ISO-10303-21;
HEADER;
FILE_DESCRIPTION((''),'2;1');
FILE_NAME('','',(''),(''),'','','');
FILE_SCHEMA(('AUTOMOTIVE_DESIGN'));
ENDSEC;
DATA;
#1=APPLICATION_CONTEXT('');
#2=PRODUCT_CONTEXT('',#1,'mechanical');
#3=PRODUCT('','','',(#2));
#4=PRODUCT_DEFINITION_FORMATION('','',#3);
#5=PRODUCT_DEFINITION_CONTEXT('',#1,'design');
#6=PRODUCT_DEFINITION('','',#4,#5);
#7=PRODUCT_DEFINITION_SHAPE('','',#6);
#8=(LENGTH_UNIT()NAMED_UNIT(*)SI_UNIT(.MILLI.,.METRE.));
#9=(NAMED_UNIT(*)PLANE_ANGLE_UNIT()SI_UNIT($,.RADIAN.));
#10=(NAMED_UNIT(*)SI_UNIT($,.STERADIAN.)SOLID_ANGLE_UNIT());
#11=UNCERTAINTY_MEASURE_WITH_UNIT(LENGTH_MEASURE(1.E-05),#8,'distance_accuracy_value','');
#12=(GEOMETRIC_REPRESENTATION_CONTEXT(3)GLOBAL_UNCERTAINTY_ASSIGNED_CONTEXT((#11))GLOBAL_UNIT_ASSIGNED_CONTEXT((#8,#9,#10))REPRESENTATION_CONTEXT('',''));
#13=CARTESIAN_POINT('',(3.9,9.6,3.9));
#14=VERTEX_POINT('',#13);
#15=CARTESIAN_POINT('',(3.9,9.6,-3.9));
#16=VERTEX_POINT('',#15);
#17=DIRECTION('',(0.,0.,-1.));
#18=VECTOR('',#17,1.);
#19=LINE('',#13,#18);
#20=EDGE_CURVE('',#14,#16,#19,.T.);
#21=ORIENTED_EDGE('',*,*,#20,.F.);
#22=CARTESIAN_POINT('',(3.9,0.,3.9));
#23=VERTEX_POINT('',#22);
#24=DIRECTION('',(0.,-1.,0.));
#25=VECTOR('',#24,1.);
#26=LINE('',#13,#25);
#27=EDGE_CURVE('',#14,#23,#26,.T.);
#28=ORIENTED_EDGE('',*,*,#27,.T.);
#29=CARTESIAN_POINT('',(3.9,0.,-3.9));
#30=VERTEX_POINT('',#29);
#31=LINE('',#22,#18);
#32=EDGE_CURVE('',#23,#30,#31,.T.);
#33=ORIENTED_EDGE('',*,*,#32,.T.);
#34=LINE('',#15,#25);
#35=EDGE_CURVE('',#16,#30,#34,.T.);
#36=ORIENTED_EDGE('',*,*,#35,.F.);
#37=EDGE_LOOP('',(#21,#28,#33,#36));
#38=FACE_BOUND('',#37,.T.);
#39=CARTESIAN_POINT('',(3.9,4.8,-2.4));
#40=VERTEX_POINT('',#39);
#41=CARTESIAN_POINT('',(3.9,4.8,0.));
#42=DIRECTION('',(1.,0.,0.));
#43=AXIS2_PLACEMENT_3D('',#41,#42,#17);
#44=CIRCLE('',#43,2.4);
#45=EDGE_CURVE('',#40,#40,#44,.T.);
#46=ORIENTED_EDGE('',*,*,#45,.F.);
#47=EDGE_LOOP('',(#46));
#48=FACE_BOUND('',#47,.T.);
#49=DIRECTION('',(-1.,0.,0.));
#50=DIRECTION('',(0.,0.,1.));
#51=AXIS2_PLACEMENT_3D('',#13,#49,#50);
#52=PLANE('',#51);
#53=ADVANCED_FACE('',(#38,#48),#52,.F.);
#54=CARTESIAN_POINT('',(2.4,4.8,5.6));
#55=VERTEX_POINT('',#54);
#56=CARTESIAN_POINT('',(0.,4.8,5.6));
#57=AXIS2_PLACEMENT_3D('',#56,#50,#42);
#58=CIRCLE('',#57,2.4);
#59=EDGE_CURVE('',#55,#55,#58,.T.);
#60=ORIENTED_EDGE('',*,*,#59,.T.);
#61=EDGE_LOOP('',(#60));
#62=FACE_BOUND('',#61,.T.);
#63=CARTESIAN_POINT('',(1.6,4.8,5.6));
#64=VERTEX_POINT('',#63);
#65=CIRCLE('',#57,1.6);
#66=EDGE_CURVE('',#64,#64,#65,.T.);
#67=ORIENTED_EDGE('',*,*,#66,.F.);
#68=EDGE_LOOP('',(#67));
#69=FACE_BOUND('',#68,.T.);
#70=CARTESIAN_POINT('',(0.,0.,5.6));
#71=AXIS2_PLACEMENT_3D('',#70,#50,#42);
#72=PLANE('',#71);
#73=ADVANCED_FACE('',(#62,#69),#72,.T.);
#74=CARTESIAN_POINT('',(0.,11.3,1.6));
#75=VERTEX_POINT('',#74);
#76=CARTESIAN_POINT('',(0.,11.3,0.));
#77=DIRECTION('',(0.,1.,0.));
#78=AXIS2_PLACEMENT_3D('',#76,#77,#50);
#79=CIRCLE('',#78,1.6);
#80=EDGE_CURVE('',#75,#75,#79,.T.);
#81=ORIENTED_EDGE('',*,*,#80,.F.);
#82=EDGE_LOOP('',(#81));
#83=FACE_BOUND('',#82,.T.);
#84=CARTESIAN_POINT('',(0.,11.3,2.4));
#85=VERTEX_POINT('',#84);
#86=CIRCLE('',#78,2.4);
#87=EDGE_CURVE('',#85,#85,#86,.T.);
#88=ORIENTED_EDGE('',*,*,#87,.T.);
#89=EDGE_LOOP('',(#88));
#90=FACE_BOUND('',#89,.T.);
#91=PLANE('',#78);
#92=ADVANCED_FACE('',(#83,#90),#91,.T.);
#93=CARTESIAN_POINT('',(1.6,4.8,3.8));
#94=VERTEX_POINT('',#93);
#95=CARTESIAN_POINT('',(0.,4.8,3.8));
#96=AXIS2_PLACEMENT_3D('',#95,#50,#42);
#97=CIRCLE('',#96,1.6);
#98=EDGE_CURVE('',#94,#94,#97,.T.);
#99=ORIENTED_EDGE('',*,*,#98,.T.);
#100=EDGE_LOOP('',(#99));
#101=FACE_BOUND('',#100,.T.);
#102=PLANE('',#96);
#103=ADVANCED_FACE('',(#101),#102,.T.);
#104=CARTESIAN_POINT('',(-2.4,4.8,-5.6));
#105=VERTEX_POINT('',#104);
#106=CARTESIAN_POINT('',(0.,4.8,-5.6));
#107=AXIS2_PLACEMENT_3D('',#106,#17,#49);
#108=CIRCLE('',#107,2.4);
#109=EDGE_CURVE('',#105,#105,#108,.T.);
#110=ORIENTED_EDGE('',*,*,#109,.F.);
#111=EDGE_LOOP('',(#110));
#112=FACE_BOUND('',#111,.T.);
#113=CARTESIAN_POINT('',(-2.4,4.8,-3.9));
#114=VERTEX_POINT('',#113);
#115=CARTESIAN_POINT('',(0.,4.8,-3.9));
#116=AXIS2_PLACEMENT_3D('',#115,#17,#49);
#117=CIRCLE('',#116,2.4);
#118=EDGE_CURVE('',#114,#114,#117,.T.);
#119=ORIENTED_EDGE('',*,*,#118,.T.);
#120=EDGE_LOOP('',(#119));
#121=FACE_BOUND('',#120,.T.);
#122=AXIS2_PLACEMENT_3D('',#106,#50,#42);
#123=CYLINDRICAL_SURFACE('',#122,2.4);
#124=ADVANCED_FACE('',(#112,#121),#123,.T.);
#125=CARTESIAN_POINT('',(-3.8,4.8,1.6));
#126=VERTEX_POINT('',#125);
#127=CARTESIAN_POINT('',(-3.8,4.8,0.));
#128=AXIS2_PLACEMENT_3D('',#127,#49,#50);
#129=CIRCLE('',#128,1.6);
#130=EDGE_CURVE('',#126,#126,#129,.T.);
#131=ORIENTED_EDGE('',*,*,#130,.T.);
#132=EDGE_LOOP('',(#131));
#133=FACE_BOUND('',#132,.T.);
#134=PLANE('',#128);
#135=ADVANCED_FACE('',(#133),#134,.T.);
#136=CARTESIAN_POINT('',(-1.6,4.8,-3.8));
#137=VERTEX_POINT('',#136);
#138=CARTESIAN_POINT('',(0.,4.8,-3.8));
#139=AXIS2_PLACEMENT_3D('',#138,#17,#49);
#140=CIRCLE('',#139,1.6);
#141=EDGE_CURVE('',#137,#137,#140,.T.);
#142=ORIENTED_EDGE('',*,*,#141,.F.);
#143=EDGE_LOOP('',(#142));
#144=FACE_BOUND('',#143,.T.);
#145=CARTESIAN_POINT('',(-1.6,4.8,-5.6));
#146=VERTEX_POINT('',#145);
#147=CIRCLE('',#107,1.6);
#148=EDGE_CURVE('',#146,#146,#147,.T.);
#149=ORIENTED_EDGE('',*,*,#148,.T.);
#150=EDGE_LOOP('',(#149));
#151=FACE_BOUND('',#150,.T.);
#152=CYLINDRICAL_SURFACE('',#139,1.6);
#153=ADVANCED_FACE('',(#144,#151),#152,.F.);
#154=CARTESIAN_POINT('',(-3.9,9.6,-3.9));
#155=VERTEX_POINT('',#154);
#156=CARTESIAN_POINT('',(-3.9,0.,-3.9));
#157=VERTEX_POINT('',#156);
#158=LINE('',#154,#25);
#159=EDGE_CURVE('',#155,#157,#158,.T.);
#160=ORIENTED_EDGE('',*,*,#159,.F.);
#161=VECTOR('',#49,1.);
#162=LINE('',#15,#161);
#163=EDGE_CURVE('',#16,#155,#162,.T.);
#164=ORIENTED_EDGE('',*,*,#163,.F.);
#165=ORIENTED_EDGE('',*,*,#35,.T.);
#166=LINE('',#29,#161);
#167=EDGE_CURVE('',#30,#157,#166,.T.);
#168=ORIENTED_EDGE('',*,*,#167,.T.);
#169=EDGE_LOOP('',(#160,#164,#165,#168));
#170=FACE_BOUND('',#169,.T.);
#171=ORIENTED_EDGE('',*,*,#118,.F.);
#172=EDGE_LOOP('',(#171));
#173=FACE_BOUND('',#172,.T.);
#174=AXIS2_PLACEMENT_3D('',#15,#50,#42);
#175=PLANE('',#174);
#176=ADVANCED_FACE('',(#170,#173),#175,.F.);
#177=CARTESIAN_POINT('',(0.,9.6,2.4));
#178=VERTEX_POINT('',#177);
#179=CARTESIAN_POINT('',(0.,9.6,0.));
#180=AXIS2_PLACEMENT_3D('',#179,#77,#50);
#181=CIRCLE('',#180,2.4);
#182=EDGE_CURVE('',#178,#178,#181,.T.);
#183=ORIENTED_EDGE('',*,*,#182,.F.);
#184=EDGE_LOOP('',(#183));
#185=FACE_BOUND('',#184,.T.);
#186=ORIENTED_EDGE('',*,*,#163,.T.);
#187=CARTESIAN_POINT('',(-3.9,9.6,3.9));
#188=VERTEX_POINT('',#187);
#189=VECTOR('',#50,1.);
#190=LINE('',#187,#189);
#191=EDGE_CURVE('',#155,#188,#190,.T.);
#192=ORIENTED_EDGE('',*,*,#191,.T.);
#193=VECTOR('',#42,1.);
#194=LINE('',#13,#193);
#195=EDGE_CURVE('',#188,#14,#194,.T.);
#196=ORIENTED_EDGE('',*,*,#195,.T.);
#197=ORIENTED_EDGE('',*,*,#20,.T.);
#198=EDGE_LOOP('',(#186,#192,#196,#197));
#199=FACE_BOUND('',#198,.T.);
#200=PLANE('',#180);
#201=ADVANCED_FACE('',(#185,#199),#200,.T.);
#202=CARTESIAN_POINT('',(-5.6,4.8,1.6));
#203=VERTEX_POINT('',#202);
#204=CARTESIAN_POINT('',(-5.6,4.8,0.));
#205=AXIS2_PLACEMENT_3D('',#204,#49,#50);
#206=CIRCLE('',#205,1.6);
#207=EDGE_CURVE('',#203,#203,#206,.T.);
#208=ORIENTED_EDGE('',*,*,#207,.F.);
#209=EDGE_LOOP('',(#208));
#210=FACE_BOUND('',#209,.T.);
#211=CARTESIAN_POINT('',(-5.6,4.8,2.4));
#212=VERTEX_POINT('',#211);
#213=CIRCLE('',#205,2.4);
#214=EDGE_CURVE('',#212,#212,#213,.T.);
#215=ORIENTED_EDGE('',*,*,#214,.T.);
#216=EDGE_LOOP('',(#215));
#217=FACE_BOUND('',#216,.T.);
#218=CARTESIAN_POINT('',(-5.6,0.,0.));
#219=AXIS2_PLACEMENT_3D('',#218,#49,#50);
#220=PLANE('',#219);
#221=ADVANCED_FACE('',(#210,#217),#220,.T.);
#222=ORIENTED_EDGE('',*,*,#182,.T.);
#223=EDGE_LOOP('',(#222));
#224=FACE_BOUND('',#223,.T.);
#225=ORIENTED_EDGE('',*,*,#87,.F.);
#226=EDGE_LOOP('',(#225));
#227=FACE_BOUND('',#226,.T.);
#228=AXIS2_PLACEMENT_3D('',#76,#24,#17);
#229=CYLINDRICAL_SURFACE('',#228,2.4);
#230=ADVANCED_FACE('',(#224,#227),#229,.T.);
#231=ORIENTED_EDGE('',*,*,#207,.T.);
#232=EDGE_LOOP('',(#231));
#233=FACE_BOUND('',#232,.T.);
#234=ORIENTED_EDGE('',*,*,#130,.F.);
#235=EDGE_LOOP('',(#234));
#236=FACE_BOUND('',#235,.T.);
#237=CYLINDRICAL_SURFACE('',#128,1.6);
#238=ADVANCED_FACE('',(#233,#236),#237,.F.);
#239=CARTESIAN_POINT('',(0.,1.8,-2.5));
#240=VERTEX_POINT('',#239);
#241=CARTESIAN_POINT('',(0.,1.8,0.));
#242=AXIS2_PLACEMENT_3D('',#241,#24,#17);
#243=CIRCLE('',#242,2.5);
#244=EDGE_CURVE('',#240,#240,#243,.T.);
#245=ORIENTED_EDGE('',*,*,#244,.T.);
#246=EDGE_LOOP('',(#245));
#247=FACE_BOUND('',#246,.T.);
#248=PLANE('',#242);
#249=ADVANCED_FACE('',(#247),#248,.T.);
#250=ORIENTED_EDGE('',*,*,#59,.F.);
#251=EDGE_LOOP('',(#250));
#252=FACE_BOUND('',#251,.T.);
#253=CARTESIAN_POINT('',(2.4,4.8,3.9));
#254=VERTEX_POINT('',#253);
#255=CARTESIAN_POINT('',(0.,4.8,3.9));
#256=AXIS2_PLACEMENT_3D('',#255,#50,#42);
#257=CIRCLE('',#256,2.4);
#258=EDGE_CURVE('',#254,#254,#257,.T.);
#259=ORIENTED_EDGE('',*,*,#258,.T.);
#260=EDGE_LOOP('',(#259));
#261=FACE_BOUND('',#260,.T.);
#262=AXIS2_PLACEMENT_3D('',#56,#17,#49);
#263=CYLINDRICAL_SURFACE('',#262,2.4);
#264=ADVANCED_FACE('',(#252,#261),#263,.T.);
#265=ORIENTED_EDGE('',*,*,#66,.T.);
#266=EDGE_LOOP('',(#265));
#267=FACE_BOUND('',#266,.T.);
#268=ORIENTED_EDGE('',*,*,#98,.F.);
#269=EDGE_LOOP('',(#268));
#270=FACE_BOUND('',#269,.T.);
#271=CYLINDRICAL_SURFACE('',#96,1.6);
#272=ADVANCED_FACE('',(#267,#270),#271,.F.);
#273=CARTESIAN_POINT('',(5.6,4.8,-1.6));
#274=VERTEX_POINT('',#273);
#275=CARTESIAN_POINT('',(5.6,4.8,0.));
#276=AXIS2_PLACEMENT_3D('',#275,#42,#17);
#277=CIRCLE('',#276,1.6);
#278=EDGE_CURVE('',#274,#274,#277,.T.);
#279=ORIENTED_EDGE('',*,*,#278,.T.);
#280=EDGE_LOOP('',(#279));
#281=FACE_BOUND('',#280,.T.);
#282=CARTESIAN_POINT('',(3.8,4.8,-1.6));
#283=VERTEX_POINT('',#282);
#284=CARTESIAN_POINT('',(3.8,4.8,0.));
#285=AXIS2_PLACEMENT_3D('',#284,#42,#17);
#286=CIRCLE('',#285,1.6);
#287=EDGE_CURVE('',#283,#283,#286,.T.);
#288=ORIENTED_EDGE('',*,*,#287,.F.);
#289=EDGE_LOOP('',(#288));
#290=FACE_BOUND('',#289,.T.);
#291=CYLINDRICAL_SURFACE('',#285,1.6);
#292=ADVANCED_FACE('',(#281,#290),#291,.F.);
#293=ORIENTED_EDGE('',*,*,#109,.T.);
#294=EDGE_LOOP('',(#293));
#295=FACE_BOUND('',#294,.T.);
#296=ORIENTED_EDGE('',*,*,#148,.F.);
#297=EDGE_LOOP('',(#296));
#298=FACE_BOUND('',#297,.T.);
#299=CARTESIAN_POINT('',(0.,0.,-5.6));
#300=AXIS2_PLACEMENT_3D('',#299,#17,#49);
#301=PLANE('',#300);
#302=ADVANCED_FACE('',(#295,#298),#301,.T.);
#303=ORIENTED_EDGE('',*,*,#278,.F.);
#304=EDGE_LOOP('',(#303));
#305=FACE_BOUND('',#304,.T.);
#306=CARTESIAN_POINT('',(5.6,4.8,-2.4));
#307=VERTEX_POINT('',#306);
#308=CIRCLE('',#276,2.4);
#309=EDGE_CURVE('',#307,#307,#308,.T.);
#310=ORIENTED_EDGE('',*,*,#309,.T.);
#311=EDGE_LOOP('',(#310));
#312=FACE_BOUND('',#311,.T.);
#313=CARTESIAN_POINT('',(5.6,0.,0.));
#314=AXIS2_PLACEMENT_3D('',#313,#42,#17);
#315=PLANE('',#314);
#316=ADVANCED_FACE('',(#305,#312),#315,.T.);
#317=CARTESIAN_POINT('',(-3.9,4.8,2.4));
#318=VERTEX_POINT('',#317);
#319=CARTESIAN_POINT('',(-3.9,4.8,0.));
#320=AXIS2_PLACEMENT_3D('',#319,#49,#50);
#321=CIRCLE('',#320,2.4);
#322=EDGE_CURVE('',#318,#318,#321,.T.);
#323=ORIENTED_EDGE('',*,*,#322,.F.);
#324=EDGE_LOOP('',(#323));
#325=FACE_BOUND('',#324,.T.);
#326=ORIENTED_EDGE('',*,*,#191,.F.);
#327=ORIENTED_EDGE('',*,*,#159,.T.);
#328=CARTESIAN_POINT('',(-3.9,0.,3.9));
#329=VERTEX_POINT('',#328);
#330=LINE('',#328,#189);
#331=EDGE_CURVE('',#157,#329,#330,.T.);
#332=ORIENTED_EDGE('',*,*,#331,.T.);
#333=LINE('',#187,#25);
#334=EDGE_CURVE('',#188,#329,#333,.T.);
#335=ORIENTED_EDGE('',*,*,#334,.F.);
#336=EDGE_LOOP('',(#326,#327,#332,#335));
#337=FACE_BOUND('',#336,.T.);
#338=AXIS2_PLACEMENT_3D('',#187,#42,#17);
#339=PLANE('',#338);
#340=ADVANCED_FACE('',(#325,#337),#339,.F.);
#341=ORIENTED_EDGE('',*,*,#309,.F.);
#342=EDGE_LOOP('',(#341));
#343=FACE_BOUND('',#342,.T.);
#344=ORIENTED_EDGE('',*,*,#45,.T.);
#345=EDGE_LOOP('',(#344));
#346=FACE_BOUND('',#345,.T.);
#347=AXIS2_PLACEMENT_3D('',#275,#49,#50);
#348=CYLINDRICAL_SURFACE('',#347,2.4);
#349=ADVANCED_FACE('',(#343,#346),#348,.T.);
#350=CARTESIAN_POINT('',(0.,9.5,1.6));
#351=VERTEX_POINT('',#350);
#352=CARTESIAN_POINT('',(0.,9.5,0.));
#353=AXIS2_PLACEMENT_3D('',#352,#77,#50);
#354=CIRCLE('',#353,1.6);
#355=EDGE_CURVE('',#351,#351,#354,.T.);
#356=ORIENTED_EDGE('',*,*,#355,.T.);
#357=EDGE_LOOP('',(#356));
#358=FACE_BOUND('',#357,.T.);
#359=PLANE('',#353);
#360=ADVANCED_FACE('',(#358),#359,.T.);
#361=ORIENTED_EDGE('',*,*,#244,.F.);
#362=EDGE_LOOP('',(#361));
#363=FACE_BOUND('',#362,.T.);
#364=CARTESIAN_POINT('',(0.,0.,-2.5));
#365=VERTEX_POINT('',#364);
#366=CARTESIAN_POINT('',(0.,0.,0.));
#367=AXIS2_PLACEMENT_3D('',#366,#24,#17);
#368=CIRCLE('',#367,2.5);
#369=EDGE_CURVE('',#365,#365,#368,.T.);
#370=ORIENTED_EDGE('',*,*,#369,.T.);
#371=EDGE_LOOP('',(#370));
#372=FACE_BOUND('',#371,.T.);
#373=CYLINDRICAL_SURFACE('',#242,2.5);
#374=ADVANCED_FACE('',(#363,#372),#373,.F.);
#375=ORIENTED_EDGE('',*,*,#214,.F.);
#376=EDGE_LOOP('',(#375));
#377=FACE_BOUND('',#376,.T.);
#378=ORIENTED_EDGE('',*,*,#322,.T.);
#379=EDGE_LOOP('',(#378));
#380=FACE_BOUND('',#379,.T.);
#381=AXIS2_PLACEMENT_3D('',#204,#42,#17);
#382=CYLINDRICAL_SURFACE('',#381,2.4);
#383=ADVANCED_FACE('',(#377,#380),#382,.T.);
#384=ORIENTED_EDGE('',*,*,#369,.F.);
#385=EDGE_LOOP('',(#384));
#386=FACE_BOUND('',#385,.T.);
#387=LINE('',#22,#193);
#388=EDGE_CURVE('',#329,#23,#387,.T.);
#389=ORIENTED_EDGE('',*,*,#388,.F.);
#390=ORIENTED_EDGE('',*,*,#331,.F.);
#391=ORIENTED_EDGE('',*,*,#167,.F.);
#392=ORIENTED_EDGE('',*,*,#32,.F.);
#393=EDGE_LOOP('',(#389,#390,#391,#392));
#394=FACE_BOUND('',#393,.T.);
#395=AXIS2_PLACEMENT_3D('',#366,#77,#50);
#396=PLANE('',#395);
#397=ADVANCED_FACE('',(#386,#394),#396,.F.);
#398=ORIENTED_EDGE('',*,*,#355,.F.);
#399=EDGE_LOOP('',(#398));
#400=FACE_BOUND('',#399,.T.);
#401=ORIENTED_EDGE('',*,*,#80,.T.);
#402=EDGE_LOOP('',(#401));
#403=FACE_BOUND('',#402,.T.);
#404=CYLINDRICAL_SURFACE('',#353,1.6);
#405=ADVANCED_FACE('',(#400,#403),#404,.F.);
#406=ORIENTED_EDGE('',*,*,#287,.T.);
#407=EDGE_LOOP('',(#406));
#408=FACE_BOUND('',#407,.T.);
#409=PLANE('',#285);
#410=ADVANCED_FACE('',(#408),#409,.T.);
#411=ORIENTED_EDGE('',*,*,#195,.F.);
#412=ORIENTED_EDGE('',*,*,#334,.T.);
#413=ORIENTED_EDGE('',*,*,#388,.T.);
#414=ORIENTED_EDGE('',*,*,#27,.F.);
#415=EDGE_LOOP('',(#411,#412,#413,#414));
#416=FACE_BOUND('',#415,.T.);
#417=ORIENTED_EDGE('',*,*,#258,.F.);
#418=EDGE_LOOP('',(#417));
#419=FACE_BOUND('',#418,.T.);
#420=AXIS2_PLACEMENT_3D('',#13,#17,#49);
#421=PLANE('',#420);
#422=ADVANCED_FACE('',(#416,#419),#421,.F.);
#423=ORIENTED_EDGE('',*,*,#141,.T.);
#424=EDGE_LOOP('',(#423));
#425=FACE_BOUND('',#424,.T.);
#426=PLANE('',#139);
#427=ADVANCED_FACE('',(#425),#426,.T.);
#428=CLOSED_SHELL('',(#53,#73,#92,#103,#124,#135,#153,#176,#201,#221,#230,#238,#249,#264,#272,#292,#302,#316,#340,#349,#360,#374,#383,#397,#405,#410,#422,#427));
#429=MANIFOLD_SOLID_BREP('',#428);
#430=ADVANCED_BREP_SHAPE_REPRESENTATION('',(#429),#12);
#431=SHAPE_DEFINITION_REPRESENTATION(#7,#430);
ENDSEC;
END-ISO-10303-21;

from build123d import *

# Parameters (mm, degrees)
SKETCH_1_W          = 7.8
SKETCH_1_H          = 7.8
EXTRUDE_1_DEPTH     = 9.6
SKETCH_2_R          = 2.4
EXTRUDE_2_DEPTH     = 1.7
EXTRUDE_6_DEPTH     = 1.7
EXTRUDE_7_DEPTH     = 1.7
EXTRUDE_START       = 1.7
EXTRUDE_8_DEPTH     = 1.7
EXTRUDE_9_DEPTH     = 1.7
CUT_EXTRUDE_1_DEPTH = 1.8
SKETCH_12_R         = 1.6
CUT_EXTRUDE_2_DEPTH = 1.8
SKETCH_13_R         = 1.6
CUT_EXTRUDE_3_DEPTH = 1.8
CUT_EXTRUDE_START   = -1.8
SKETCH_14_R         = 1.6
CUT_EXTRUDE_4_DEPTH = 1.8
SKETCH_15_R         = 1.6
CUT_EXTRUDE_5_DEPTH = 1.8
SKETCH_16_R         = 1.6
CUT_EXTRUDE_6_DEPTH = 1.8


with BuildPart() as part:
    # Эскиз1 → Бобышка-Вытянуть1 (new body)
    with BuildSketch(Plane(origin=(0, 0, 0), x_dir=(1, 0, 0), z_dir=(0, 1, 0))):
        Rectangle(SKETCH_1_W, SKETCH_1_H)
    extrude(amount=EXTRUDE_1_DEPTH)

    # Эскиз2 → Бобышка-Вытянуть2 (add)
    with BuildSketch(Plane(origin=(0, 9.6, 0), x_dir=(1, 0, 0), z_dir=(0, 1, 0))):
        with Locations(Location((0, 0, 0), (0, 0, 270))):
            Circle(SKETCH_2_R)
    extrude(amount=EXTRUDE_2_DEPTH)

    # Эскиз6 → Бобышка-Вытянуть6 (add)
    with BuildSketch(Plane.XY.offset(3.9)):
        with BuildLine():
            ThreePointArc((1.5134223, 6.6626736), (0, 7.2), (-1.5134223, 6.6626736))
            Line((-1.5134223, 6.6626736), (0, 4.8))
            Line((0, 4.8), (1.5134223, 6.6626736))
        make_face()
        with BuildLine():
            Line((0, 4.8), (-1.5134223, 6.6626736))
            ThreePointArc((-1.5134223, 6.6626736), (-2.4, 4.8), (-1.5134223, 2.9373264))
            Line((-1.5134223, 2.9373264), (0, 4.8))
        make_face()
        with BuildLine():
            Line((1.5134223, 6.6626736), (0, 4.8))
            Line((0, 4.8), (1.5134223, 2.9373264))
            ThreePointArc((1.5134223, 2.9373264), (2.167050244, 3.768547994), (2.4, 4.8))
            ThreePointArc((2.4, 4.8), (2.167050244, 5.831452006), (1.5134223, 6.6626736))
        make_face()
        with BuildLine():
            Line((1.5134223, 2.9373264), (0, 4.8))
            Line((0, 4.8), (-1.5134223, 2.9373264))
            ThreePointArc((-1.5134223, 2.9373264), (0, 2.4), (1.5134223, 2.9373264))
        make_face()
    extrude(amount=EXTRUDE_6_DEPTH)

    # Эскиз7 → Бобышка-Вытянуть7 (add)
    with BuildSketch(Plane(origin=(3.9, 0, 0), x_dir=(0, 0, -1), z_dir=(1, 0, 0))):
        with BuildLine():
            ThreePointArc((1.5134223, 6.6626736), (0, 7.2), (-1.5134223, 6.6626736))
            Line((-1.5134223, 6.6626736), (0, 4.8))
            Line((0, 4.8), (1.5134223, 6.6626736))
        make_face()
        with BuildLine():
            Line((0, 4.8), (-1.5134223, 6.6626736))
            ThreePointArc((-1.5134223, 6.6626736), (-2.4, 4.8), (-1.5134223, 2.9373264))
            Line((-1.5134223, 2.9373264), (0, 4.8))
        make_face()
        with BuildLine():
            Line((1.5134223, 6.6626736), (0, 4.8))
            Line((0, 4.8), (1.5134223, 2.9373264))
            ThreePointArc((1.5134223, 2.9373264), (2.167050244, 3.768547994), (2.4, 4.8))
            ThreePointArc((2.4, 4.8), (2.167050244, 5.831452006), (1.5134223, 6.6626736))
        make_face()
        with BuildLine():
            Line((1.5134223, 2.9373264), (0, 4.8))
            Line((0, 4.8), (-1.5134223, 2.9373264))
            ThreePointArc((-1.5134223, 2.9373264), (0, 2.4), (1.5134223, 2.9373264))
        make_face()
    extrude(amount=EXTRUDE_7_DEPTH)

    # Эскиз9 → Бобышка-Вытянуть8 (add)
    with BuildSketch(Plane(origin=(0, 0, -3.9), x_dir=(-1, 0, 0), z_dir=(0, 0, -1)).offset(EXTRUDE_START)):
        with BuildLine():
            ThreePointArc((1.5134223, 6.6626736), (0, 7.2), (-1.5134223, 6.6626736))
            Line((-1.5134223, 6.6626736), (0, 4.8))
            Line((0, 4.8), (1.5134223, 6.6626736))
        make_face()
        with BuildLine():
            Line((0, 4.8), (-1.5134223, 6.6626736))
            ThreePointArc((-1.5134223, 6.6626736), (-2.4, 4.8), (-1.5134223, 2.9373264))
            Line((-1.5134223, 2.9373264), (0, 4.8))
        make_face()
        with BuildLine():
            Line((1.5134223, 6.6626736), (0, 4.8))
            Line((0, 4.8), (1.5134223, 2.9373264))
            ThreePointArc((1.5134223, 2.9373264), (2.167050244, 3.768547994), (2.4, 4.8))
            ThreePointArc((2.4, 4.8), (2.167050244, 5.831452006), (1.5134223, 6.6626736))
        make_face()
        with BuildLine():
            Line((1.5134223, 2.9373264), (0, 4.8))
            Line((0, 4.8), (-1.5134223, 2.9373264))
            ThreePointArc((-1.5134223, 2.9373264), (0, 2.4), (1.5134223, 2.9373264))
        make_face()
    extrude(amount=-EXTRUDE_8_DEPTH)

    # Эскиз10 → Бобышка-Вытянуть9 (add)
    with BuildSketch(Plane.ZY.offset(3.9).offset(EXTRUDE_START)):
        with BuildLine():
            ThreePointArc((1.5134223, 6.6626736), (0, 7.2), (-1.5134223, 6.6626736))
            Line((-1.5134223, 6.6626736), (0, 4.8))
            Line((0, 4.8), (1.5134223, 6.6626736))
        make_face()
        with BuildLine():
            Line((0, 4.8), (-1.5134223, 6.6626736))
            ThreePointArc((-1.5134223, 6.6626736), (-2.4, 4.8), (-1.5134223, 2.9373264))
            Line((-1.5134223, 2.9373264), (0, 4.8))
        make_face()
        with BuildLine():
            Line((1.5134223, 6.6626736), (0, 4.8))
            Line((0, 4.8), (1.5134223, 2.9373264))
            ThreePointArc((1.5134223, 2.9373264), (2.167050244, 3.768547994), (2.4, 4.8))
            ThreePointArc((2.4, 4.8), (2.167050244, 5.831452006), (1.5134223, 6.6626736))
        make_face()
        with BuildLine():
            Line((1.5134223, 2.9373264), (0, 4.8))
            Line((0, 4.8), (-1.5134223, 2.9373264))
            ThreePointArc((-1.5134223, 2.9373264), (0, 2.4), (1.5134223, 2.9373264))
        make_face()
    extrude(amount=-EXTRUDE_9_DEPTH)

    # Эскиз11 → Вырез-Вытянуть1 (cut)
    with BuildSketch(Plane.XZ):
        with BuildLine():
            ThreePointArc((1.767766953, 1.767766953), (0, 2.5), (-1.767766953, 1.767766953))
            Line((-1.767766953, 1.767766953), (0, 0))
            Line((0, 0), (1.767766953, 1.767766953))
        make_face()
        with BuildLine():
            Line((0, 0), (-1.767766953, 1.767766953))
            ThreePointArc((-1.767766953, 1.767766953), (-2.5, 0), (-1.767766953, -1.767766953))
            Line((-1.767766953, -1.767766953), (0, 0))
        make_face()
        with BuildLine():
            Line((1.767766953, 1.767766953), (0, 0))
            Line((0, 0), (1.767766953, -1.767766953))
            ThreePointArc((1.767766953, -1.767766953), (2.309698831, -0.956708581), (2.5, 0))
            ThreePointArc((2.5, 0), (2.309698831, 0.956708581), (1.767766953, 1.767766953))
        make_face()
        with BuildLine():
            Line((1.767766953, -1.767766953), (0, 0))
            Line((0, 0), (-1.767766953, -1.767766953))
            ThreePointArc((-1.767766953, -1.767766953), (0, -2.5), (1.767766953, -1.767766953))
        make_face()
    extrude(amount=-CUT_EXTRUDE_1_DEPTH, mode=Mode.SUBTRACT)

    # Эскиз12 → Вырез-Вытянуть2 (cut)
    with BuildSketch(Plane.XY.offset(5.6)):
        with Locations((0, 4.8)):
            Circle(SKETCH_12_R)
    extrude(amount=-CUT_EXTRUDE_2_DEPTH, mode=Mode.SUBTRACT)

    # Эскиз13 → Вырез-Вытянуть3 (cut)
    with BuildSketch(Plane.ZY.offset(5.6)):
        with Locations((0, 4.8)):
            Circle(SKETCH_13_R)
    extrude(amount=-CUT_EXTRUDE_3_DEPTH, mode=Mode.SUBTRACT)

    # Эскиз14 → Вырез-Вытянуть4 (cut)
    with BuildSketch(Plane(origin=(0, 0, -5.6), x_dir=(-1, 0, 0), z_dir=(0, 0, -1)).offset(CUT_EXTRUDE_START)):
        with Locations(Location((0, 4.8, 0), (0, 0, 180))):
            Circle(SKETCH_14_R)
    extrude(amount=CUT_EXTRUDE_4_DEPTH, mode=Mode.SUBTRACT)

    # Эскиз15 → Вырез-Вытянуть5 (cut)
    with BuildSketch(Plane(origin=(5.6, 0, 0), x_dir=(0, 0, -1), z_dir=(1, 0, 0)).offset(CUT_EXTRUDE_START)):
        with Locations(Location((0, 4.8, 0), (0, 0, 180))):
            Circle(SKETCH_15_R)
    extrude(amount=CUT_EXTRUDE_5_DEPTH, mode=Mode.SUBTRACT)

    # Эскиз16 → Вырез-Вытянуть6 (cut)
    with BuildSketch(Plane(origin=(0, 11.3, 0), x_dir=(1, 0, 0), z_dir=(0, 1, 0))):
        with Locations(Location((0, 0, 0), (0, 0, 270))):
            Circle(SKETCH_16_R)
    extrude(amount=-CUT_EXTRUDE_6_DEPTH, mode=Mode.SUBTRACT)


solid = part.part
